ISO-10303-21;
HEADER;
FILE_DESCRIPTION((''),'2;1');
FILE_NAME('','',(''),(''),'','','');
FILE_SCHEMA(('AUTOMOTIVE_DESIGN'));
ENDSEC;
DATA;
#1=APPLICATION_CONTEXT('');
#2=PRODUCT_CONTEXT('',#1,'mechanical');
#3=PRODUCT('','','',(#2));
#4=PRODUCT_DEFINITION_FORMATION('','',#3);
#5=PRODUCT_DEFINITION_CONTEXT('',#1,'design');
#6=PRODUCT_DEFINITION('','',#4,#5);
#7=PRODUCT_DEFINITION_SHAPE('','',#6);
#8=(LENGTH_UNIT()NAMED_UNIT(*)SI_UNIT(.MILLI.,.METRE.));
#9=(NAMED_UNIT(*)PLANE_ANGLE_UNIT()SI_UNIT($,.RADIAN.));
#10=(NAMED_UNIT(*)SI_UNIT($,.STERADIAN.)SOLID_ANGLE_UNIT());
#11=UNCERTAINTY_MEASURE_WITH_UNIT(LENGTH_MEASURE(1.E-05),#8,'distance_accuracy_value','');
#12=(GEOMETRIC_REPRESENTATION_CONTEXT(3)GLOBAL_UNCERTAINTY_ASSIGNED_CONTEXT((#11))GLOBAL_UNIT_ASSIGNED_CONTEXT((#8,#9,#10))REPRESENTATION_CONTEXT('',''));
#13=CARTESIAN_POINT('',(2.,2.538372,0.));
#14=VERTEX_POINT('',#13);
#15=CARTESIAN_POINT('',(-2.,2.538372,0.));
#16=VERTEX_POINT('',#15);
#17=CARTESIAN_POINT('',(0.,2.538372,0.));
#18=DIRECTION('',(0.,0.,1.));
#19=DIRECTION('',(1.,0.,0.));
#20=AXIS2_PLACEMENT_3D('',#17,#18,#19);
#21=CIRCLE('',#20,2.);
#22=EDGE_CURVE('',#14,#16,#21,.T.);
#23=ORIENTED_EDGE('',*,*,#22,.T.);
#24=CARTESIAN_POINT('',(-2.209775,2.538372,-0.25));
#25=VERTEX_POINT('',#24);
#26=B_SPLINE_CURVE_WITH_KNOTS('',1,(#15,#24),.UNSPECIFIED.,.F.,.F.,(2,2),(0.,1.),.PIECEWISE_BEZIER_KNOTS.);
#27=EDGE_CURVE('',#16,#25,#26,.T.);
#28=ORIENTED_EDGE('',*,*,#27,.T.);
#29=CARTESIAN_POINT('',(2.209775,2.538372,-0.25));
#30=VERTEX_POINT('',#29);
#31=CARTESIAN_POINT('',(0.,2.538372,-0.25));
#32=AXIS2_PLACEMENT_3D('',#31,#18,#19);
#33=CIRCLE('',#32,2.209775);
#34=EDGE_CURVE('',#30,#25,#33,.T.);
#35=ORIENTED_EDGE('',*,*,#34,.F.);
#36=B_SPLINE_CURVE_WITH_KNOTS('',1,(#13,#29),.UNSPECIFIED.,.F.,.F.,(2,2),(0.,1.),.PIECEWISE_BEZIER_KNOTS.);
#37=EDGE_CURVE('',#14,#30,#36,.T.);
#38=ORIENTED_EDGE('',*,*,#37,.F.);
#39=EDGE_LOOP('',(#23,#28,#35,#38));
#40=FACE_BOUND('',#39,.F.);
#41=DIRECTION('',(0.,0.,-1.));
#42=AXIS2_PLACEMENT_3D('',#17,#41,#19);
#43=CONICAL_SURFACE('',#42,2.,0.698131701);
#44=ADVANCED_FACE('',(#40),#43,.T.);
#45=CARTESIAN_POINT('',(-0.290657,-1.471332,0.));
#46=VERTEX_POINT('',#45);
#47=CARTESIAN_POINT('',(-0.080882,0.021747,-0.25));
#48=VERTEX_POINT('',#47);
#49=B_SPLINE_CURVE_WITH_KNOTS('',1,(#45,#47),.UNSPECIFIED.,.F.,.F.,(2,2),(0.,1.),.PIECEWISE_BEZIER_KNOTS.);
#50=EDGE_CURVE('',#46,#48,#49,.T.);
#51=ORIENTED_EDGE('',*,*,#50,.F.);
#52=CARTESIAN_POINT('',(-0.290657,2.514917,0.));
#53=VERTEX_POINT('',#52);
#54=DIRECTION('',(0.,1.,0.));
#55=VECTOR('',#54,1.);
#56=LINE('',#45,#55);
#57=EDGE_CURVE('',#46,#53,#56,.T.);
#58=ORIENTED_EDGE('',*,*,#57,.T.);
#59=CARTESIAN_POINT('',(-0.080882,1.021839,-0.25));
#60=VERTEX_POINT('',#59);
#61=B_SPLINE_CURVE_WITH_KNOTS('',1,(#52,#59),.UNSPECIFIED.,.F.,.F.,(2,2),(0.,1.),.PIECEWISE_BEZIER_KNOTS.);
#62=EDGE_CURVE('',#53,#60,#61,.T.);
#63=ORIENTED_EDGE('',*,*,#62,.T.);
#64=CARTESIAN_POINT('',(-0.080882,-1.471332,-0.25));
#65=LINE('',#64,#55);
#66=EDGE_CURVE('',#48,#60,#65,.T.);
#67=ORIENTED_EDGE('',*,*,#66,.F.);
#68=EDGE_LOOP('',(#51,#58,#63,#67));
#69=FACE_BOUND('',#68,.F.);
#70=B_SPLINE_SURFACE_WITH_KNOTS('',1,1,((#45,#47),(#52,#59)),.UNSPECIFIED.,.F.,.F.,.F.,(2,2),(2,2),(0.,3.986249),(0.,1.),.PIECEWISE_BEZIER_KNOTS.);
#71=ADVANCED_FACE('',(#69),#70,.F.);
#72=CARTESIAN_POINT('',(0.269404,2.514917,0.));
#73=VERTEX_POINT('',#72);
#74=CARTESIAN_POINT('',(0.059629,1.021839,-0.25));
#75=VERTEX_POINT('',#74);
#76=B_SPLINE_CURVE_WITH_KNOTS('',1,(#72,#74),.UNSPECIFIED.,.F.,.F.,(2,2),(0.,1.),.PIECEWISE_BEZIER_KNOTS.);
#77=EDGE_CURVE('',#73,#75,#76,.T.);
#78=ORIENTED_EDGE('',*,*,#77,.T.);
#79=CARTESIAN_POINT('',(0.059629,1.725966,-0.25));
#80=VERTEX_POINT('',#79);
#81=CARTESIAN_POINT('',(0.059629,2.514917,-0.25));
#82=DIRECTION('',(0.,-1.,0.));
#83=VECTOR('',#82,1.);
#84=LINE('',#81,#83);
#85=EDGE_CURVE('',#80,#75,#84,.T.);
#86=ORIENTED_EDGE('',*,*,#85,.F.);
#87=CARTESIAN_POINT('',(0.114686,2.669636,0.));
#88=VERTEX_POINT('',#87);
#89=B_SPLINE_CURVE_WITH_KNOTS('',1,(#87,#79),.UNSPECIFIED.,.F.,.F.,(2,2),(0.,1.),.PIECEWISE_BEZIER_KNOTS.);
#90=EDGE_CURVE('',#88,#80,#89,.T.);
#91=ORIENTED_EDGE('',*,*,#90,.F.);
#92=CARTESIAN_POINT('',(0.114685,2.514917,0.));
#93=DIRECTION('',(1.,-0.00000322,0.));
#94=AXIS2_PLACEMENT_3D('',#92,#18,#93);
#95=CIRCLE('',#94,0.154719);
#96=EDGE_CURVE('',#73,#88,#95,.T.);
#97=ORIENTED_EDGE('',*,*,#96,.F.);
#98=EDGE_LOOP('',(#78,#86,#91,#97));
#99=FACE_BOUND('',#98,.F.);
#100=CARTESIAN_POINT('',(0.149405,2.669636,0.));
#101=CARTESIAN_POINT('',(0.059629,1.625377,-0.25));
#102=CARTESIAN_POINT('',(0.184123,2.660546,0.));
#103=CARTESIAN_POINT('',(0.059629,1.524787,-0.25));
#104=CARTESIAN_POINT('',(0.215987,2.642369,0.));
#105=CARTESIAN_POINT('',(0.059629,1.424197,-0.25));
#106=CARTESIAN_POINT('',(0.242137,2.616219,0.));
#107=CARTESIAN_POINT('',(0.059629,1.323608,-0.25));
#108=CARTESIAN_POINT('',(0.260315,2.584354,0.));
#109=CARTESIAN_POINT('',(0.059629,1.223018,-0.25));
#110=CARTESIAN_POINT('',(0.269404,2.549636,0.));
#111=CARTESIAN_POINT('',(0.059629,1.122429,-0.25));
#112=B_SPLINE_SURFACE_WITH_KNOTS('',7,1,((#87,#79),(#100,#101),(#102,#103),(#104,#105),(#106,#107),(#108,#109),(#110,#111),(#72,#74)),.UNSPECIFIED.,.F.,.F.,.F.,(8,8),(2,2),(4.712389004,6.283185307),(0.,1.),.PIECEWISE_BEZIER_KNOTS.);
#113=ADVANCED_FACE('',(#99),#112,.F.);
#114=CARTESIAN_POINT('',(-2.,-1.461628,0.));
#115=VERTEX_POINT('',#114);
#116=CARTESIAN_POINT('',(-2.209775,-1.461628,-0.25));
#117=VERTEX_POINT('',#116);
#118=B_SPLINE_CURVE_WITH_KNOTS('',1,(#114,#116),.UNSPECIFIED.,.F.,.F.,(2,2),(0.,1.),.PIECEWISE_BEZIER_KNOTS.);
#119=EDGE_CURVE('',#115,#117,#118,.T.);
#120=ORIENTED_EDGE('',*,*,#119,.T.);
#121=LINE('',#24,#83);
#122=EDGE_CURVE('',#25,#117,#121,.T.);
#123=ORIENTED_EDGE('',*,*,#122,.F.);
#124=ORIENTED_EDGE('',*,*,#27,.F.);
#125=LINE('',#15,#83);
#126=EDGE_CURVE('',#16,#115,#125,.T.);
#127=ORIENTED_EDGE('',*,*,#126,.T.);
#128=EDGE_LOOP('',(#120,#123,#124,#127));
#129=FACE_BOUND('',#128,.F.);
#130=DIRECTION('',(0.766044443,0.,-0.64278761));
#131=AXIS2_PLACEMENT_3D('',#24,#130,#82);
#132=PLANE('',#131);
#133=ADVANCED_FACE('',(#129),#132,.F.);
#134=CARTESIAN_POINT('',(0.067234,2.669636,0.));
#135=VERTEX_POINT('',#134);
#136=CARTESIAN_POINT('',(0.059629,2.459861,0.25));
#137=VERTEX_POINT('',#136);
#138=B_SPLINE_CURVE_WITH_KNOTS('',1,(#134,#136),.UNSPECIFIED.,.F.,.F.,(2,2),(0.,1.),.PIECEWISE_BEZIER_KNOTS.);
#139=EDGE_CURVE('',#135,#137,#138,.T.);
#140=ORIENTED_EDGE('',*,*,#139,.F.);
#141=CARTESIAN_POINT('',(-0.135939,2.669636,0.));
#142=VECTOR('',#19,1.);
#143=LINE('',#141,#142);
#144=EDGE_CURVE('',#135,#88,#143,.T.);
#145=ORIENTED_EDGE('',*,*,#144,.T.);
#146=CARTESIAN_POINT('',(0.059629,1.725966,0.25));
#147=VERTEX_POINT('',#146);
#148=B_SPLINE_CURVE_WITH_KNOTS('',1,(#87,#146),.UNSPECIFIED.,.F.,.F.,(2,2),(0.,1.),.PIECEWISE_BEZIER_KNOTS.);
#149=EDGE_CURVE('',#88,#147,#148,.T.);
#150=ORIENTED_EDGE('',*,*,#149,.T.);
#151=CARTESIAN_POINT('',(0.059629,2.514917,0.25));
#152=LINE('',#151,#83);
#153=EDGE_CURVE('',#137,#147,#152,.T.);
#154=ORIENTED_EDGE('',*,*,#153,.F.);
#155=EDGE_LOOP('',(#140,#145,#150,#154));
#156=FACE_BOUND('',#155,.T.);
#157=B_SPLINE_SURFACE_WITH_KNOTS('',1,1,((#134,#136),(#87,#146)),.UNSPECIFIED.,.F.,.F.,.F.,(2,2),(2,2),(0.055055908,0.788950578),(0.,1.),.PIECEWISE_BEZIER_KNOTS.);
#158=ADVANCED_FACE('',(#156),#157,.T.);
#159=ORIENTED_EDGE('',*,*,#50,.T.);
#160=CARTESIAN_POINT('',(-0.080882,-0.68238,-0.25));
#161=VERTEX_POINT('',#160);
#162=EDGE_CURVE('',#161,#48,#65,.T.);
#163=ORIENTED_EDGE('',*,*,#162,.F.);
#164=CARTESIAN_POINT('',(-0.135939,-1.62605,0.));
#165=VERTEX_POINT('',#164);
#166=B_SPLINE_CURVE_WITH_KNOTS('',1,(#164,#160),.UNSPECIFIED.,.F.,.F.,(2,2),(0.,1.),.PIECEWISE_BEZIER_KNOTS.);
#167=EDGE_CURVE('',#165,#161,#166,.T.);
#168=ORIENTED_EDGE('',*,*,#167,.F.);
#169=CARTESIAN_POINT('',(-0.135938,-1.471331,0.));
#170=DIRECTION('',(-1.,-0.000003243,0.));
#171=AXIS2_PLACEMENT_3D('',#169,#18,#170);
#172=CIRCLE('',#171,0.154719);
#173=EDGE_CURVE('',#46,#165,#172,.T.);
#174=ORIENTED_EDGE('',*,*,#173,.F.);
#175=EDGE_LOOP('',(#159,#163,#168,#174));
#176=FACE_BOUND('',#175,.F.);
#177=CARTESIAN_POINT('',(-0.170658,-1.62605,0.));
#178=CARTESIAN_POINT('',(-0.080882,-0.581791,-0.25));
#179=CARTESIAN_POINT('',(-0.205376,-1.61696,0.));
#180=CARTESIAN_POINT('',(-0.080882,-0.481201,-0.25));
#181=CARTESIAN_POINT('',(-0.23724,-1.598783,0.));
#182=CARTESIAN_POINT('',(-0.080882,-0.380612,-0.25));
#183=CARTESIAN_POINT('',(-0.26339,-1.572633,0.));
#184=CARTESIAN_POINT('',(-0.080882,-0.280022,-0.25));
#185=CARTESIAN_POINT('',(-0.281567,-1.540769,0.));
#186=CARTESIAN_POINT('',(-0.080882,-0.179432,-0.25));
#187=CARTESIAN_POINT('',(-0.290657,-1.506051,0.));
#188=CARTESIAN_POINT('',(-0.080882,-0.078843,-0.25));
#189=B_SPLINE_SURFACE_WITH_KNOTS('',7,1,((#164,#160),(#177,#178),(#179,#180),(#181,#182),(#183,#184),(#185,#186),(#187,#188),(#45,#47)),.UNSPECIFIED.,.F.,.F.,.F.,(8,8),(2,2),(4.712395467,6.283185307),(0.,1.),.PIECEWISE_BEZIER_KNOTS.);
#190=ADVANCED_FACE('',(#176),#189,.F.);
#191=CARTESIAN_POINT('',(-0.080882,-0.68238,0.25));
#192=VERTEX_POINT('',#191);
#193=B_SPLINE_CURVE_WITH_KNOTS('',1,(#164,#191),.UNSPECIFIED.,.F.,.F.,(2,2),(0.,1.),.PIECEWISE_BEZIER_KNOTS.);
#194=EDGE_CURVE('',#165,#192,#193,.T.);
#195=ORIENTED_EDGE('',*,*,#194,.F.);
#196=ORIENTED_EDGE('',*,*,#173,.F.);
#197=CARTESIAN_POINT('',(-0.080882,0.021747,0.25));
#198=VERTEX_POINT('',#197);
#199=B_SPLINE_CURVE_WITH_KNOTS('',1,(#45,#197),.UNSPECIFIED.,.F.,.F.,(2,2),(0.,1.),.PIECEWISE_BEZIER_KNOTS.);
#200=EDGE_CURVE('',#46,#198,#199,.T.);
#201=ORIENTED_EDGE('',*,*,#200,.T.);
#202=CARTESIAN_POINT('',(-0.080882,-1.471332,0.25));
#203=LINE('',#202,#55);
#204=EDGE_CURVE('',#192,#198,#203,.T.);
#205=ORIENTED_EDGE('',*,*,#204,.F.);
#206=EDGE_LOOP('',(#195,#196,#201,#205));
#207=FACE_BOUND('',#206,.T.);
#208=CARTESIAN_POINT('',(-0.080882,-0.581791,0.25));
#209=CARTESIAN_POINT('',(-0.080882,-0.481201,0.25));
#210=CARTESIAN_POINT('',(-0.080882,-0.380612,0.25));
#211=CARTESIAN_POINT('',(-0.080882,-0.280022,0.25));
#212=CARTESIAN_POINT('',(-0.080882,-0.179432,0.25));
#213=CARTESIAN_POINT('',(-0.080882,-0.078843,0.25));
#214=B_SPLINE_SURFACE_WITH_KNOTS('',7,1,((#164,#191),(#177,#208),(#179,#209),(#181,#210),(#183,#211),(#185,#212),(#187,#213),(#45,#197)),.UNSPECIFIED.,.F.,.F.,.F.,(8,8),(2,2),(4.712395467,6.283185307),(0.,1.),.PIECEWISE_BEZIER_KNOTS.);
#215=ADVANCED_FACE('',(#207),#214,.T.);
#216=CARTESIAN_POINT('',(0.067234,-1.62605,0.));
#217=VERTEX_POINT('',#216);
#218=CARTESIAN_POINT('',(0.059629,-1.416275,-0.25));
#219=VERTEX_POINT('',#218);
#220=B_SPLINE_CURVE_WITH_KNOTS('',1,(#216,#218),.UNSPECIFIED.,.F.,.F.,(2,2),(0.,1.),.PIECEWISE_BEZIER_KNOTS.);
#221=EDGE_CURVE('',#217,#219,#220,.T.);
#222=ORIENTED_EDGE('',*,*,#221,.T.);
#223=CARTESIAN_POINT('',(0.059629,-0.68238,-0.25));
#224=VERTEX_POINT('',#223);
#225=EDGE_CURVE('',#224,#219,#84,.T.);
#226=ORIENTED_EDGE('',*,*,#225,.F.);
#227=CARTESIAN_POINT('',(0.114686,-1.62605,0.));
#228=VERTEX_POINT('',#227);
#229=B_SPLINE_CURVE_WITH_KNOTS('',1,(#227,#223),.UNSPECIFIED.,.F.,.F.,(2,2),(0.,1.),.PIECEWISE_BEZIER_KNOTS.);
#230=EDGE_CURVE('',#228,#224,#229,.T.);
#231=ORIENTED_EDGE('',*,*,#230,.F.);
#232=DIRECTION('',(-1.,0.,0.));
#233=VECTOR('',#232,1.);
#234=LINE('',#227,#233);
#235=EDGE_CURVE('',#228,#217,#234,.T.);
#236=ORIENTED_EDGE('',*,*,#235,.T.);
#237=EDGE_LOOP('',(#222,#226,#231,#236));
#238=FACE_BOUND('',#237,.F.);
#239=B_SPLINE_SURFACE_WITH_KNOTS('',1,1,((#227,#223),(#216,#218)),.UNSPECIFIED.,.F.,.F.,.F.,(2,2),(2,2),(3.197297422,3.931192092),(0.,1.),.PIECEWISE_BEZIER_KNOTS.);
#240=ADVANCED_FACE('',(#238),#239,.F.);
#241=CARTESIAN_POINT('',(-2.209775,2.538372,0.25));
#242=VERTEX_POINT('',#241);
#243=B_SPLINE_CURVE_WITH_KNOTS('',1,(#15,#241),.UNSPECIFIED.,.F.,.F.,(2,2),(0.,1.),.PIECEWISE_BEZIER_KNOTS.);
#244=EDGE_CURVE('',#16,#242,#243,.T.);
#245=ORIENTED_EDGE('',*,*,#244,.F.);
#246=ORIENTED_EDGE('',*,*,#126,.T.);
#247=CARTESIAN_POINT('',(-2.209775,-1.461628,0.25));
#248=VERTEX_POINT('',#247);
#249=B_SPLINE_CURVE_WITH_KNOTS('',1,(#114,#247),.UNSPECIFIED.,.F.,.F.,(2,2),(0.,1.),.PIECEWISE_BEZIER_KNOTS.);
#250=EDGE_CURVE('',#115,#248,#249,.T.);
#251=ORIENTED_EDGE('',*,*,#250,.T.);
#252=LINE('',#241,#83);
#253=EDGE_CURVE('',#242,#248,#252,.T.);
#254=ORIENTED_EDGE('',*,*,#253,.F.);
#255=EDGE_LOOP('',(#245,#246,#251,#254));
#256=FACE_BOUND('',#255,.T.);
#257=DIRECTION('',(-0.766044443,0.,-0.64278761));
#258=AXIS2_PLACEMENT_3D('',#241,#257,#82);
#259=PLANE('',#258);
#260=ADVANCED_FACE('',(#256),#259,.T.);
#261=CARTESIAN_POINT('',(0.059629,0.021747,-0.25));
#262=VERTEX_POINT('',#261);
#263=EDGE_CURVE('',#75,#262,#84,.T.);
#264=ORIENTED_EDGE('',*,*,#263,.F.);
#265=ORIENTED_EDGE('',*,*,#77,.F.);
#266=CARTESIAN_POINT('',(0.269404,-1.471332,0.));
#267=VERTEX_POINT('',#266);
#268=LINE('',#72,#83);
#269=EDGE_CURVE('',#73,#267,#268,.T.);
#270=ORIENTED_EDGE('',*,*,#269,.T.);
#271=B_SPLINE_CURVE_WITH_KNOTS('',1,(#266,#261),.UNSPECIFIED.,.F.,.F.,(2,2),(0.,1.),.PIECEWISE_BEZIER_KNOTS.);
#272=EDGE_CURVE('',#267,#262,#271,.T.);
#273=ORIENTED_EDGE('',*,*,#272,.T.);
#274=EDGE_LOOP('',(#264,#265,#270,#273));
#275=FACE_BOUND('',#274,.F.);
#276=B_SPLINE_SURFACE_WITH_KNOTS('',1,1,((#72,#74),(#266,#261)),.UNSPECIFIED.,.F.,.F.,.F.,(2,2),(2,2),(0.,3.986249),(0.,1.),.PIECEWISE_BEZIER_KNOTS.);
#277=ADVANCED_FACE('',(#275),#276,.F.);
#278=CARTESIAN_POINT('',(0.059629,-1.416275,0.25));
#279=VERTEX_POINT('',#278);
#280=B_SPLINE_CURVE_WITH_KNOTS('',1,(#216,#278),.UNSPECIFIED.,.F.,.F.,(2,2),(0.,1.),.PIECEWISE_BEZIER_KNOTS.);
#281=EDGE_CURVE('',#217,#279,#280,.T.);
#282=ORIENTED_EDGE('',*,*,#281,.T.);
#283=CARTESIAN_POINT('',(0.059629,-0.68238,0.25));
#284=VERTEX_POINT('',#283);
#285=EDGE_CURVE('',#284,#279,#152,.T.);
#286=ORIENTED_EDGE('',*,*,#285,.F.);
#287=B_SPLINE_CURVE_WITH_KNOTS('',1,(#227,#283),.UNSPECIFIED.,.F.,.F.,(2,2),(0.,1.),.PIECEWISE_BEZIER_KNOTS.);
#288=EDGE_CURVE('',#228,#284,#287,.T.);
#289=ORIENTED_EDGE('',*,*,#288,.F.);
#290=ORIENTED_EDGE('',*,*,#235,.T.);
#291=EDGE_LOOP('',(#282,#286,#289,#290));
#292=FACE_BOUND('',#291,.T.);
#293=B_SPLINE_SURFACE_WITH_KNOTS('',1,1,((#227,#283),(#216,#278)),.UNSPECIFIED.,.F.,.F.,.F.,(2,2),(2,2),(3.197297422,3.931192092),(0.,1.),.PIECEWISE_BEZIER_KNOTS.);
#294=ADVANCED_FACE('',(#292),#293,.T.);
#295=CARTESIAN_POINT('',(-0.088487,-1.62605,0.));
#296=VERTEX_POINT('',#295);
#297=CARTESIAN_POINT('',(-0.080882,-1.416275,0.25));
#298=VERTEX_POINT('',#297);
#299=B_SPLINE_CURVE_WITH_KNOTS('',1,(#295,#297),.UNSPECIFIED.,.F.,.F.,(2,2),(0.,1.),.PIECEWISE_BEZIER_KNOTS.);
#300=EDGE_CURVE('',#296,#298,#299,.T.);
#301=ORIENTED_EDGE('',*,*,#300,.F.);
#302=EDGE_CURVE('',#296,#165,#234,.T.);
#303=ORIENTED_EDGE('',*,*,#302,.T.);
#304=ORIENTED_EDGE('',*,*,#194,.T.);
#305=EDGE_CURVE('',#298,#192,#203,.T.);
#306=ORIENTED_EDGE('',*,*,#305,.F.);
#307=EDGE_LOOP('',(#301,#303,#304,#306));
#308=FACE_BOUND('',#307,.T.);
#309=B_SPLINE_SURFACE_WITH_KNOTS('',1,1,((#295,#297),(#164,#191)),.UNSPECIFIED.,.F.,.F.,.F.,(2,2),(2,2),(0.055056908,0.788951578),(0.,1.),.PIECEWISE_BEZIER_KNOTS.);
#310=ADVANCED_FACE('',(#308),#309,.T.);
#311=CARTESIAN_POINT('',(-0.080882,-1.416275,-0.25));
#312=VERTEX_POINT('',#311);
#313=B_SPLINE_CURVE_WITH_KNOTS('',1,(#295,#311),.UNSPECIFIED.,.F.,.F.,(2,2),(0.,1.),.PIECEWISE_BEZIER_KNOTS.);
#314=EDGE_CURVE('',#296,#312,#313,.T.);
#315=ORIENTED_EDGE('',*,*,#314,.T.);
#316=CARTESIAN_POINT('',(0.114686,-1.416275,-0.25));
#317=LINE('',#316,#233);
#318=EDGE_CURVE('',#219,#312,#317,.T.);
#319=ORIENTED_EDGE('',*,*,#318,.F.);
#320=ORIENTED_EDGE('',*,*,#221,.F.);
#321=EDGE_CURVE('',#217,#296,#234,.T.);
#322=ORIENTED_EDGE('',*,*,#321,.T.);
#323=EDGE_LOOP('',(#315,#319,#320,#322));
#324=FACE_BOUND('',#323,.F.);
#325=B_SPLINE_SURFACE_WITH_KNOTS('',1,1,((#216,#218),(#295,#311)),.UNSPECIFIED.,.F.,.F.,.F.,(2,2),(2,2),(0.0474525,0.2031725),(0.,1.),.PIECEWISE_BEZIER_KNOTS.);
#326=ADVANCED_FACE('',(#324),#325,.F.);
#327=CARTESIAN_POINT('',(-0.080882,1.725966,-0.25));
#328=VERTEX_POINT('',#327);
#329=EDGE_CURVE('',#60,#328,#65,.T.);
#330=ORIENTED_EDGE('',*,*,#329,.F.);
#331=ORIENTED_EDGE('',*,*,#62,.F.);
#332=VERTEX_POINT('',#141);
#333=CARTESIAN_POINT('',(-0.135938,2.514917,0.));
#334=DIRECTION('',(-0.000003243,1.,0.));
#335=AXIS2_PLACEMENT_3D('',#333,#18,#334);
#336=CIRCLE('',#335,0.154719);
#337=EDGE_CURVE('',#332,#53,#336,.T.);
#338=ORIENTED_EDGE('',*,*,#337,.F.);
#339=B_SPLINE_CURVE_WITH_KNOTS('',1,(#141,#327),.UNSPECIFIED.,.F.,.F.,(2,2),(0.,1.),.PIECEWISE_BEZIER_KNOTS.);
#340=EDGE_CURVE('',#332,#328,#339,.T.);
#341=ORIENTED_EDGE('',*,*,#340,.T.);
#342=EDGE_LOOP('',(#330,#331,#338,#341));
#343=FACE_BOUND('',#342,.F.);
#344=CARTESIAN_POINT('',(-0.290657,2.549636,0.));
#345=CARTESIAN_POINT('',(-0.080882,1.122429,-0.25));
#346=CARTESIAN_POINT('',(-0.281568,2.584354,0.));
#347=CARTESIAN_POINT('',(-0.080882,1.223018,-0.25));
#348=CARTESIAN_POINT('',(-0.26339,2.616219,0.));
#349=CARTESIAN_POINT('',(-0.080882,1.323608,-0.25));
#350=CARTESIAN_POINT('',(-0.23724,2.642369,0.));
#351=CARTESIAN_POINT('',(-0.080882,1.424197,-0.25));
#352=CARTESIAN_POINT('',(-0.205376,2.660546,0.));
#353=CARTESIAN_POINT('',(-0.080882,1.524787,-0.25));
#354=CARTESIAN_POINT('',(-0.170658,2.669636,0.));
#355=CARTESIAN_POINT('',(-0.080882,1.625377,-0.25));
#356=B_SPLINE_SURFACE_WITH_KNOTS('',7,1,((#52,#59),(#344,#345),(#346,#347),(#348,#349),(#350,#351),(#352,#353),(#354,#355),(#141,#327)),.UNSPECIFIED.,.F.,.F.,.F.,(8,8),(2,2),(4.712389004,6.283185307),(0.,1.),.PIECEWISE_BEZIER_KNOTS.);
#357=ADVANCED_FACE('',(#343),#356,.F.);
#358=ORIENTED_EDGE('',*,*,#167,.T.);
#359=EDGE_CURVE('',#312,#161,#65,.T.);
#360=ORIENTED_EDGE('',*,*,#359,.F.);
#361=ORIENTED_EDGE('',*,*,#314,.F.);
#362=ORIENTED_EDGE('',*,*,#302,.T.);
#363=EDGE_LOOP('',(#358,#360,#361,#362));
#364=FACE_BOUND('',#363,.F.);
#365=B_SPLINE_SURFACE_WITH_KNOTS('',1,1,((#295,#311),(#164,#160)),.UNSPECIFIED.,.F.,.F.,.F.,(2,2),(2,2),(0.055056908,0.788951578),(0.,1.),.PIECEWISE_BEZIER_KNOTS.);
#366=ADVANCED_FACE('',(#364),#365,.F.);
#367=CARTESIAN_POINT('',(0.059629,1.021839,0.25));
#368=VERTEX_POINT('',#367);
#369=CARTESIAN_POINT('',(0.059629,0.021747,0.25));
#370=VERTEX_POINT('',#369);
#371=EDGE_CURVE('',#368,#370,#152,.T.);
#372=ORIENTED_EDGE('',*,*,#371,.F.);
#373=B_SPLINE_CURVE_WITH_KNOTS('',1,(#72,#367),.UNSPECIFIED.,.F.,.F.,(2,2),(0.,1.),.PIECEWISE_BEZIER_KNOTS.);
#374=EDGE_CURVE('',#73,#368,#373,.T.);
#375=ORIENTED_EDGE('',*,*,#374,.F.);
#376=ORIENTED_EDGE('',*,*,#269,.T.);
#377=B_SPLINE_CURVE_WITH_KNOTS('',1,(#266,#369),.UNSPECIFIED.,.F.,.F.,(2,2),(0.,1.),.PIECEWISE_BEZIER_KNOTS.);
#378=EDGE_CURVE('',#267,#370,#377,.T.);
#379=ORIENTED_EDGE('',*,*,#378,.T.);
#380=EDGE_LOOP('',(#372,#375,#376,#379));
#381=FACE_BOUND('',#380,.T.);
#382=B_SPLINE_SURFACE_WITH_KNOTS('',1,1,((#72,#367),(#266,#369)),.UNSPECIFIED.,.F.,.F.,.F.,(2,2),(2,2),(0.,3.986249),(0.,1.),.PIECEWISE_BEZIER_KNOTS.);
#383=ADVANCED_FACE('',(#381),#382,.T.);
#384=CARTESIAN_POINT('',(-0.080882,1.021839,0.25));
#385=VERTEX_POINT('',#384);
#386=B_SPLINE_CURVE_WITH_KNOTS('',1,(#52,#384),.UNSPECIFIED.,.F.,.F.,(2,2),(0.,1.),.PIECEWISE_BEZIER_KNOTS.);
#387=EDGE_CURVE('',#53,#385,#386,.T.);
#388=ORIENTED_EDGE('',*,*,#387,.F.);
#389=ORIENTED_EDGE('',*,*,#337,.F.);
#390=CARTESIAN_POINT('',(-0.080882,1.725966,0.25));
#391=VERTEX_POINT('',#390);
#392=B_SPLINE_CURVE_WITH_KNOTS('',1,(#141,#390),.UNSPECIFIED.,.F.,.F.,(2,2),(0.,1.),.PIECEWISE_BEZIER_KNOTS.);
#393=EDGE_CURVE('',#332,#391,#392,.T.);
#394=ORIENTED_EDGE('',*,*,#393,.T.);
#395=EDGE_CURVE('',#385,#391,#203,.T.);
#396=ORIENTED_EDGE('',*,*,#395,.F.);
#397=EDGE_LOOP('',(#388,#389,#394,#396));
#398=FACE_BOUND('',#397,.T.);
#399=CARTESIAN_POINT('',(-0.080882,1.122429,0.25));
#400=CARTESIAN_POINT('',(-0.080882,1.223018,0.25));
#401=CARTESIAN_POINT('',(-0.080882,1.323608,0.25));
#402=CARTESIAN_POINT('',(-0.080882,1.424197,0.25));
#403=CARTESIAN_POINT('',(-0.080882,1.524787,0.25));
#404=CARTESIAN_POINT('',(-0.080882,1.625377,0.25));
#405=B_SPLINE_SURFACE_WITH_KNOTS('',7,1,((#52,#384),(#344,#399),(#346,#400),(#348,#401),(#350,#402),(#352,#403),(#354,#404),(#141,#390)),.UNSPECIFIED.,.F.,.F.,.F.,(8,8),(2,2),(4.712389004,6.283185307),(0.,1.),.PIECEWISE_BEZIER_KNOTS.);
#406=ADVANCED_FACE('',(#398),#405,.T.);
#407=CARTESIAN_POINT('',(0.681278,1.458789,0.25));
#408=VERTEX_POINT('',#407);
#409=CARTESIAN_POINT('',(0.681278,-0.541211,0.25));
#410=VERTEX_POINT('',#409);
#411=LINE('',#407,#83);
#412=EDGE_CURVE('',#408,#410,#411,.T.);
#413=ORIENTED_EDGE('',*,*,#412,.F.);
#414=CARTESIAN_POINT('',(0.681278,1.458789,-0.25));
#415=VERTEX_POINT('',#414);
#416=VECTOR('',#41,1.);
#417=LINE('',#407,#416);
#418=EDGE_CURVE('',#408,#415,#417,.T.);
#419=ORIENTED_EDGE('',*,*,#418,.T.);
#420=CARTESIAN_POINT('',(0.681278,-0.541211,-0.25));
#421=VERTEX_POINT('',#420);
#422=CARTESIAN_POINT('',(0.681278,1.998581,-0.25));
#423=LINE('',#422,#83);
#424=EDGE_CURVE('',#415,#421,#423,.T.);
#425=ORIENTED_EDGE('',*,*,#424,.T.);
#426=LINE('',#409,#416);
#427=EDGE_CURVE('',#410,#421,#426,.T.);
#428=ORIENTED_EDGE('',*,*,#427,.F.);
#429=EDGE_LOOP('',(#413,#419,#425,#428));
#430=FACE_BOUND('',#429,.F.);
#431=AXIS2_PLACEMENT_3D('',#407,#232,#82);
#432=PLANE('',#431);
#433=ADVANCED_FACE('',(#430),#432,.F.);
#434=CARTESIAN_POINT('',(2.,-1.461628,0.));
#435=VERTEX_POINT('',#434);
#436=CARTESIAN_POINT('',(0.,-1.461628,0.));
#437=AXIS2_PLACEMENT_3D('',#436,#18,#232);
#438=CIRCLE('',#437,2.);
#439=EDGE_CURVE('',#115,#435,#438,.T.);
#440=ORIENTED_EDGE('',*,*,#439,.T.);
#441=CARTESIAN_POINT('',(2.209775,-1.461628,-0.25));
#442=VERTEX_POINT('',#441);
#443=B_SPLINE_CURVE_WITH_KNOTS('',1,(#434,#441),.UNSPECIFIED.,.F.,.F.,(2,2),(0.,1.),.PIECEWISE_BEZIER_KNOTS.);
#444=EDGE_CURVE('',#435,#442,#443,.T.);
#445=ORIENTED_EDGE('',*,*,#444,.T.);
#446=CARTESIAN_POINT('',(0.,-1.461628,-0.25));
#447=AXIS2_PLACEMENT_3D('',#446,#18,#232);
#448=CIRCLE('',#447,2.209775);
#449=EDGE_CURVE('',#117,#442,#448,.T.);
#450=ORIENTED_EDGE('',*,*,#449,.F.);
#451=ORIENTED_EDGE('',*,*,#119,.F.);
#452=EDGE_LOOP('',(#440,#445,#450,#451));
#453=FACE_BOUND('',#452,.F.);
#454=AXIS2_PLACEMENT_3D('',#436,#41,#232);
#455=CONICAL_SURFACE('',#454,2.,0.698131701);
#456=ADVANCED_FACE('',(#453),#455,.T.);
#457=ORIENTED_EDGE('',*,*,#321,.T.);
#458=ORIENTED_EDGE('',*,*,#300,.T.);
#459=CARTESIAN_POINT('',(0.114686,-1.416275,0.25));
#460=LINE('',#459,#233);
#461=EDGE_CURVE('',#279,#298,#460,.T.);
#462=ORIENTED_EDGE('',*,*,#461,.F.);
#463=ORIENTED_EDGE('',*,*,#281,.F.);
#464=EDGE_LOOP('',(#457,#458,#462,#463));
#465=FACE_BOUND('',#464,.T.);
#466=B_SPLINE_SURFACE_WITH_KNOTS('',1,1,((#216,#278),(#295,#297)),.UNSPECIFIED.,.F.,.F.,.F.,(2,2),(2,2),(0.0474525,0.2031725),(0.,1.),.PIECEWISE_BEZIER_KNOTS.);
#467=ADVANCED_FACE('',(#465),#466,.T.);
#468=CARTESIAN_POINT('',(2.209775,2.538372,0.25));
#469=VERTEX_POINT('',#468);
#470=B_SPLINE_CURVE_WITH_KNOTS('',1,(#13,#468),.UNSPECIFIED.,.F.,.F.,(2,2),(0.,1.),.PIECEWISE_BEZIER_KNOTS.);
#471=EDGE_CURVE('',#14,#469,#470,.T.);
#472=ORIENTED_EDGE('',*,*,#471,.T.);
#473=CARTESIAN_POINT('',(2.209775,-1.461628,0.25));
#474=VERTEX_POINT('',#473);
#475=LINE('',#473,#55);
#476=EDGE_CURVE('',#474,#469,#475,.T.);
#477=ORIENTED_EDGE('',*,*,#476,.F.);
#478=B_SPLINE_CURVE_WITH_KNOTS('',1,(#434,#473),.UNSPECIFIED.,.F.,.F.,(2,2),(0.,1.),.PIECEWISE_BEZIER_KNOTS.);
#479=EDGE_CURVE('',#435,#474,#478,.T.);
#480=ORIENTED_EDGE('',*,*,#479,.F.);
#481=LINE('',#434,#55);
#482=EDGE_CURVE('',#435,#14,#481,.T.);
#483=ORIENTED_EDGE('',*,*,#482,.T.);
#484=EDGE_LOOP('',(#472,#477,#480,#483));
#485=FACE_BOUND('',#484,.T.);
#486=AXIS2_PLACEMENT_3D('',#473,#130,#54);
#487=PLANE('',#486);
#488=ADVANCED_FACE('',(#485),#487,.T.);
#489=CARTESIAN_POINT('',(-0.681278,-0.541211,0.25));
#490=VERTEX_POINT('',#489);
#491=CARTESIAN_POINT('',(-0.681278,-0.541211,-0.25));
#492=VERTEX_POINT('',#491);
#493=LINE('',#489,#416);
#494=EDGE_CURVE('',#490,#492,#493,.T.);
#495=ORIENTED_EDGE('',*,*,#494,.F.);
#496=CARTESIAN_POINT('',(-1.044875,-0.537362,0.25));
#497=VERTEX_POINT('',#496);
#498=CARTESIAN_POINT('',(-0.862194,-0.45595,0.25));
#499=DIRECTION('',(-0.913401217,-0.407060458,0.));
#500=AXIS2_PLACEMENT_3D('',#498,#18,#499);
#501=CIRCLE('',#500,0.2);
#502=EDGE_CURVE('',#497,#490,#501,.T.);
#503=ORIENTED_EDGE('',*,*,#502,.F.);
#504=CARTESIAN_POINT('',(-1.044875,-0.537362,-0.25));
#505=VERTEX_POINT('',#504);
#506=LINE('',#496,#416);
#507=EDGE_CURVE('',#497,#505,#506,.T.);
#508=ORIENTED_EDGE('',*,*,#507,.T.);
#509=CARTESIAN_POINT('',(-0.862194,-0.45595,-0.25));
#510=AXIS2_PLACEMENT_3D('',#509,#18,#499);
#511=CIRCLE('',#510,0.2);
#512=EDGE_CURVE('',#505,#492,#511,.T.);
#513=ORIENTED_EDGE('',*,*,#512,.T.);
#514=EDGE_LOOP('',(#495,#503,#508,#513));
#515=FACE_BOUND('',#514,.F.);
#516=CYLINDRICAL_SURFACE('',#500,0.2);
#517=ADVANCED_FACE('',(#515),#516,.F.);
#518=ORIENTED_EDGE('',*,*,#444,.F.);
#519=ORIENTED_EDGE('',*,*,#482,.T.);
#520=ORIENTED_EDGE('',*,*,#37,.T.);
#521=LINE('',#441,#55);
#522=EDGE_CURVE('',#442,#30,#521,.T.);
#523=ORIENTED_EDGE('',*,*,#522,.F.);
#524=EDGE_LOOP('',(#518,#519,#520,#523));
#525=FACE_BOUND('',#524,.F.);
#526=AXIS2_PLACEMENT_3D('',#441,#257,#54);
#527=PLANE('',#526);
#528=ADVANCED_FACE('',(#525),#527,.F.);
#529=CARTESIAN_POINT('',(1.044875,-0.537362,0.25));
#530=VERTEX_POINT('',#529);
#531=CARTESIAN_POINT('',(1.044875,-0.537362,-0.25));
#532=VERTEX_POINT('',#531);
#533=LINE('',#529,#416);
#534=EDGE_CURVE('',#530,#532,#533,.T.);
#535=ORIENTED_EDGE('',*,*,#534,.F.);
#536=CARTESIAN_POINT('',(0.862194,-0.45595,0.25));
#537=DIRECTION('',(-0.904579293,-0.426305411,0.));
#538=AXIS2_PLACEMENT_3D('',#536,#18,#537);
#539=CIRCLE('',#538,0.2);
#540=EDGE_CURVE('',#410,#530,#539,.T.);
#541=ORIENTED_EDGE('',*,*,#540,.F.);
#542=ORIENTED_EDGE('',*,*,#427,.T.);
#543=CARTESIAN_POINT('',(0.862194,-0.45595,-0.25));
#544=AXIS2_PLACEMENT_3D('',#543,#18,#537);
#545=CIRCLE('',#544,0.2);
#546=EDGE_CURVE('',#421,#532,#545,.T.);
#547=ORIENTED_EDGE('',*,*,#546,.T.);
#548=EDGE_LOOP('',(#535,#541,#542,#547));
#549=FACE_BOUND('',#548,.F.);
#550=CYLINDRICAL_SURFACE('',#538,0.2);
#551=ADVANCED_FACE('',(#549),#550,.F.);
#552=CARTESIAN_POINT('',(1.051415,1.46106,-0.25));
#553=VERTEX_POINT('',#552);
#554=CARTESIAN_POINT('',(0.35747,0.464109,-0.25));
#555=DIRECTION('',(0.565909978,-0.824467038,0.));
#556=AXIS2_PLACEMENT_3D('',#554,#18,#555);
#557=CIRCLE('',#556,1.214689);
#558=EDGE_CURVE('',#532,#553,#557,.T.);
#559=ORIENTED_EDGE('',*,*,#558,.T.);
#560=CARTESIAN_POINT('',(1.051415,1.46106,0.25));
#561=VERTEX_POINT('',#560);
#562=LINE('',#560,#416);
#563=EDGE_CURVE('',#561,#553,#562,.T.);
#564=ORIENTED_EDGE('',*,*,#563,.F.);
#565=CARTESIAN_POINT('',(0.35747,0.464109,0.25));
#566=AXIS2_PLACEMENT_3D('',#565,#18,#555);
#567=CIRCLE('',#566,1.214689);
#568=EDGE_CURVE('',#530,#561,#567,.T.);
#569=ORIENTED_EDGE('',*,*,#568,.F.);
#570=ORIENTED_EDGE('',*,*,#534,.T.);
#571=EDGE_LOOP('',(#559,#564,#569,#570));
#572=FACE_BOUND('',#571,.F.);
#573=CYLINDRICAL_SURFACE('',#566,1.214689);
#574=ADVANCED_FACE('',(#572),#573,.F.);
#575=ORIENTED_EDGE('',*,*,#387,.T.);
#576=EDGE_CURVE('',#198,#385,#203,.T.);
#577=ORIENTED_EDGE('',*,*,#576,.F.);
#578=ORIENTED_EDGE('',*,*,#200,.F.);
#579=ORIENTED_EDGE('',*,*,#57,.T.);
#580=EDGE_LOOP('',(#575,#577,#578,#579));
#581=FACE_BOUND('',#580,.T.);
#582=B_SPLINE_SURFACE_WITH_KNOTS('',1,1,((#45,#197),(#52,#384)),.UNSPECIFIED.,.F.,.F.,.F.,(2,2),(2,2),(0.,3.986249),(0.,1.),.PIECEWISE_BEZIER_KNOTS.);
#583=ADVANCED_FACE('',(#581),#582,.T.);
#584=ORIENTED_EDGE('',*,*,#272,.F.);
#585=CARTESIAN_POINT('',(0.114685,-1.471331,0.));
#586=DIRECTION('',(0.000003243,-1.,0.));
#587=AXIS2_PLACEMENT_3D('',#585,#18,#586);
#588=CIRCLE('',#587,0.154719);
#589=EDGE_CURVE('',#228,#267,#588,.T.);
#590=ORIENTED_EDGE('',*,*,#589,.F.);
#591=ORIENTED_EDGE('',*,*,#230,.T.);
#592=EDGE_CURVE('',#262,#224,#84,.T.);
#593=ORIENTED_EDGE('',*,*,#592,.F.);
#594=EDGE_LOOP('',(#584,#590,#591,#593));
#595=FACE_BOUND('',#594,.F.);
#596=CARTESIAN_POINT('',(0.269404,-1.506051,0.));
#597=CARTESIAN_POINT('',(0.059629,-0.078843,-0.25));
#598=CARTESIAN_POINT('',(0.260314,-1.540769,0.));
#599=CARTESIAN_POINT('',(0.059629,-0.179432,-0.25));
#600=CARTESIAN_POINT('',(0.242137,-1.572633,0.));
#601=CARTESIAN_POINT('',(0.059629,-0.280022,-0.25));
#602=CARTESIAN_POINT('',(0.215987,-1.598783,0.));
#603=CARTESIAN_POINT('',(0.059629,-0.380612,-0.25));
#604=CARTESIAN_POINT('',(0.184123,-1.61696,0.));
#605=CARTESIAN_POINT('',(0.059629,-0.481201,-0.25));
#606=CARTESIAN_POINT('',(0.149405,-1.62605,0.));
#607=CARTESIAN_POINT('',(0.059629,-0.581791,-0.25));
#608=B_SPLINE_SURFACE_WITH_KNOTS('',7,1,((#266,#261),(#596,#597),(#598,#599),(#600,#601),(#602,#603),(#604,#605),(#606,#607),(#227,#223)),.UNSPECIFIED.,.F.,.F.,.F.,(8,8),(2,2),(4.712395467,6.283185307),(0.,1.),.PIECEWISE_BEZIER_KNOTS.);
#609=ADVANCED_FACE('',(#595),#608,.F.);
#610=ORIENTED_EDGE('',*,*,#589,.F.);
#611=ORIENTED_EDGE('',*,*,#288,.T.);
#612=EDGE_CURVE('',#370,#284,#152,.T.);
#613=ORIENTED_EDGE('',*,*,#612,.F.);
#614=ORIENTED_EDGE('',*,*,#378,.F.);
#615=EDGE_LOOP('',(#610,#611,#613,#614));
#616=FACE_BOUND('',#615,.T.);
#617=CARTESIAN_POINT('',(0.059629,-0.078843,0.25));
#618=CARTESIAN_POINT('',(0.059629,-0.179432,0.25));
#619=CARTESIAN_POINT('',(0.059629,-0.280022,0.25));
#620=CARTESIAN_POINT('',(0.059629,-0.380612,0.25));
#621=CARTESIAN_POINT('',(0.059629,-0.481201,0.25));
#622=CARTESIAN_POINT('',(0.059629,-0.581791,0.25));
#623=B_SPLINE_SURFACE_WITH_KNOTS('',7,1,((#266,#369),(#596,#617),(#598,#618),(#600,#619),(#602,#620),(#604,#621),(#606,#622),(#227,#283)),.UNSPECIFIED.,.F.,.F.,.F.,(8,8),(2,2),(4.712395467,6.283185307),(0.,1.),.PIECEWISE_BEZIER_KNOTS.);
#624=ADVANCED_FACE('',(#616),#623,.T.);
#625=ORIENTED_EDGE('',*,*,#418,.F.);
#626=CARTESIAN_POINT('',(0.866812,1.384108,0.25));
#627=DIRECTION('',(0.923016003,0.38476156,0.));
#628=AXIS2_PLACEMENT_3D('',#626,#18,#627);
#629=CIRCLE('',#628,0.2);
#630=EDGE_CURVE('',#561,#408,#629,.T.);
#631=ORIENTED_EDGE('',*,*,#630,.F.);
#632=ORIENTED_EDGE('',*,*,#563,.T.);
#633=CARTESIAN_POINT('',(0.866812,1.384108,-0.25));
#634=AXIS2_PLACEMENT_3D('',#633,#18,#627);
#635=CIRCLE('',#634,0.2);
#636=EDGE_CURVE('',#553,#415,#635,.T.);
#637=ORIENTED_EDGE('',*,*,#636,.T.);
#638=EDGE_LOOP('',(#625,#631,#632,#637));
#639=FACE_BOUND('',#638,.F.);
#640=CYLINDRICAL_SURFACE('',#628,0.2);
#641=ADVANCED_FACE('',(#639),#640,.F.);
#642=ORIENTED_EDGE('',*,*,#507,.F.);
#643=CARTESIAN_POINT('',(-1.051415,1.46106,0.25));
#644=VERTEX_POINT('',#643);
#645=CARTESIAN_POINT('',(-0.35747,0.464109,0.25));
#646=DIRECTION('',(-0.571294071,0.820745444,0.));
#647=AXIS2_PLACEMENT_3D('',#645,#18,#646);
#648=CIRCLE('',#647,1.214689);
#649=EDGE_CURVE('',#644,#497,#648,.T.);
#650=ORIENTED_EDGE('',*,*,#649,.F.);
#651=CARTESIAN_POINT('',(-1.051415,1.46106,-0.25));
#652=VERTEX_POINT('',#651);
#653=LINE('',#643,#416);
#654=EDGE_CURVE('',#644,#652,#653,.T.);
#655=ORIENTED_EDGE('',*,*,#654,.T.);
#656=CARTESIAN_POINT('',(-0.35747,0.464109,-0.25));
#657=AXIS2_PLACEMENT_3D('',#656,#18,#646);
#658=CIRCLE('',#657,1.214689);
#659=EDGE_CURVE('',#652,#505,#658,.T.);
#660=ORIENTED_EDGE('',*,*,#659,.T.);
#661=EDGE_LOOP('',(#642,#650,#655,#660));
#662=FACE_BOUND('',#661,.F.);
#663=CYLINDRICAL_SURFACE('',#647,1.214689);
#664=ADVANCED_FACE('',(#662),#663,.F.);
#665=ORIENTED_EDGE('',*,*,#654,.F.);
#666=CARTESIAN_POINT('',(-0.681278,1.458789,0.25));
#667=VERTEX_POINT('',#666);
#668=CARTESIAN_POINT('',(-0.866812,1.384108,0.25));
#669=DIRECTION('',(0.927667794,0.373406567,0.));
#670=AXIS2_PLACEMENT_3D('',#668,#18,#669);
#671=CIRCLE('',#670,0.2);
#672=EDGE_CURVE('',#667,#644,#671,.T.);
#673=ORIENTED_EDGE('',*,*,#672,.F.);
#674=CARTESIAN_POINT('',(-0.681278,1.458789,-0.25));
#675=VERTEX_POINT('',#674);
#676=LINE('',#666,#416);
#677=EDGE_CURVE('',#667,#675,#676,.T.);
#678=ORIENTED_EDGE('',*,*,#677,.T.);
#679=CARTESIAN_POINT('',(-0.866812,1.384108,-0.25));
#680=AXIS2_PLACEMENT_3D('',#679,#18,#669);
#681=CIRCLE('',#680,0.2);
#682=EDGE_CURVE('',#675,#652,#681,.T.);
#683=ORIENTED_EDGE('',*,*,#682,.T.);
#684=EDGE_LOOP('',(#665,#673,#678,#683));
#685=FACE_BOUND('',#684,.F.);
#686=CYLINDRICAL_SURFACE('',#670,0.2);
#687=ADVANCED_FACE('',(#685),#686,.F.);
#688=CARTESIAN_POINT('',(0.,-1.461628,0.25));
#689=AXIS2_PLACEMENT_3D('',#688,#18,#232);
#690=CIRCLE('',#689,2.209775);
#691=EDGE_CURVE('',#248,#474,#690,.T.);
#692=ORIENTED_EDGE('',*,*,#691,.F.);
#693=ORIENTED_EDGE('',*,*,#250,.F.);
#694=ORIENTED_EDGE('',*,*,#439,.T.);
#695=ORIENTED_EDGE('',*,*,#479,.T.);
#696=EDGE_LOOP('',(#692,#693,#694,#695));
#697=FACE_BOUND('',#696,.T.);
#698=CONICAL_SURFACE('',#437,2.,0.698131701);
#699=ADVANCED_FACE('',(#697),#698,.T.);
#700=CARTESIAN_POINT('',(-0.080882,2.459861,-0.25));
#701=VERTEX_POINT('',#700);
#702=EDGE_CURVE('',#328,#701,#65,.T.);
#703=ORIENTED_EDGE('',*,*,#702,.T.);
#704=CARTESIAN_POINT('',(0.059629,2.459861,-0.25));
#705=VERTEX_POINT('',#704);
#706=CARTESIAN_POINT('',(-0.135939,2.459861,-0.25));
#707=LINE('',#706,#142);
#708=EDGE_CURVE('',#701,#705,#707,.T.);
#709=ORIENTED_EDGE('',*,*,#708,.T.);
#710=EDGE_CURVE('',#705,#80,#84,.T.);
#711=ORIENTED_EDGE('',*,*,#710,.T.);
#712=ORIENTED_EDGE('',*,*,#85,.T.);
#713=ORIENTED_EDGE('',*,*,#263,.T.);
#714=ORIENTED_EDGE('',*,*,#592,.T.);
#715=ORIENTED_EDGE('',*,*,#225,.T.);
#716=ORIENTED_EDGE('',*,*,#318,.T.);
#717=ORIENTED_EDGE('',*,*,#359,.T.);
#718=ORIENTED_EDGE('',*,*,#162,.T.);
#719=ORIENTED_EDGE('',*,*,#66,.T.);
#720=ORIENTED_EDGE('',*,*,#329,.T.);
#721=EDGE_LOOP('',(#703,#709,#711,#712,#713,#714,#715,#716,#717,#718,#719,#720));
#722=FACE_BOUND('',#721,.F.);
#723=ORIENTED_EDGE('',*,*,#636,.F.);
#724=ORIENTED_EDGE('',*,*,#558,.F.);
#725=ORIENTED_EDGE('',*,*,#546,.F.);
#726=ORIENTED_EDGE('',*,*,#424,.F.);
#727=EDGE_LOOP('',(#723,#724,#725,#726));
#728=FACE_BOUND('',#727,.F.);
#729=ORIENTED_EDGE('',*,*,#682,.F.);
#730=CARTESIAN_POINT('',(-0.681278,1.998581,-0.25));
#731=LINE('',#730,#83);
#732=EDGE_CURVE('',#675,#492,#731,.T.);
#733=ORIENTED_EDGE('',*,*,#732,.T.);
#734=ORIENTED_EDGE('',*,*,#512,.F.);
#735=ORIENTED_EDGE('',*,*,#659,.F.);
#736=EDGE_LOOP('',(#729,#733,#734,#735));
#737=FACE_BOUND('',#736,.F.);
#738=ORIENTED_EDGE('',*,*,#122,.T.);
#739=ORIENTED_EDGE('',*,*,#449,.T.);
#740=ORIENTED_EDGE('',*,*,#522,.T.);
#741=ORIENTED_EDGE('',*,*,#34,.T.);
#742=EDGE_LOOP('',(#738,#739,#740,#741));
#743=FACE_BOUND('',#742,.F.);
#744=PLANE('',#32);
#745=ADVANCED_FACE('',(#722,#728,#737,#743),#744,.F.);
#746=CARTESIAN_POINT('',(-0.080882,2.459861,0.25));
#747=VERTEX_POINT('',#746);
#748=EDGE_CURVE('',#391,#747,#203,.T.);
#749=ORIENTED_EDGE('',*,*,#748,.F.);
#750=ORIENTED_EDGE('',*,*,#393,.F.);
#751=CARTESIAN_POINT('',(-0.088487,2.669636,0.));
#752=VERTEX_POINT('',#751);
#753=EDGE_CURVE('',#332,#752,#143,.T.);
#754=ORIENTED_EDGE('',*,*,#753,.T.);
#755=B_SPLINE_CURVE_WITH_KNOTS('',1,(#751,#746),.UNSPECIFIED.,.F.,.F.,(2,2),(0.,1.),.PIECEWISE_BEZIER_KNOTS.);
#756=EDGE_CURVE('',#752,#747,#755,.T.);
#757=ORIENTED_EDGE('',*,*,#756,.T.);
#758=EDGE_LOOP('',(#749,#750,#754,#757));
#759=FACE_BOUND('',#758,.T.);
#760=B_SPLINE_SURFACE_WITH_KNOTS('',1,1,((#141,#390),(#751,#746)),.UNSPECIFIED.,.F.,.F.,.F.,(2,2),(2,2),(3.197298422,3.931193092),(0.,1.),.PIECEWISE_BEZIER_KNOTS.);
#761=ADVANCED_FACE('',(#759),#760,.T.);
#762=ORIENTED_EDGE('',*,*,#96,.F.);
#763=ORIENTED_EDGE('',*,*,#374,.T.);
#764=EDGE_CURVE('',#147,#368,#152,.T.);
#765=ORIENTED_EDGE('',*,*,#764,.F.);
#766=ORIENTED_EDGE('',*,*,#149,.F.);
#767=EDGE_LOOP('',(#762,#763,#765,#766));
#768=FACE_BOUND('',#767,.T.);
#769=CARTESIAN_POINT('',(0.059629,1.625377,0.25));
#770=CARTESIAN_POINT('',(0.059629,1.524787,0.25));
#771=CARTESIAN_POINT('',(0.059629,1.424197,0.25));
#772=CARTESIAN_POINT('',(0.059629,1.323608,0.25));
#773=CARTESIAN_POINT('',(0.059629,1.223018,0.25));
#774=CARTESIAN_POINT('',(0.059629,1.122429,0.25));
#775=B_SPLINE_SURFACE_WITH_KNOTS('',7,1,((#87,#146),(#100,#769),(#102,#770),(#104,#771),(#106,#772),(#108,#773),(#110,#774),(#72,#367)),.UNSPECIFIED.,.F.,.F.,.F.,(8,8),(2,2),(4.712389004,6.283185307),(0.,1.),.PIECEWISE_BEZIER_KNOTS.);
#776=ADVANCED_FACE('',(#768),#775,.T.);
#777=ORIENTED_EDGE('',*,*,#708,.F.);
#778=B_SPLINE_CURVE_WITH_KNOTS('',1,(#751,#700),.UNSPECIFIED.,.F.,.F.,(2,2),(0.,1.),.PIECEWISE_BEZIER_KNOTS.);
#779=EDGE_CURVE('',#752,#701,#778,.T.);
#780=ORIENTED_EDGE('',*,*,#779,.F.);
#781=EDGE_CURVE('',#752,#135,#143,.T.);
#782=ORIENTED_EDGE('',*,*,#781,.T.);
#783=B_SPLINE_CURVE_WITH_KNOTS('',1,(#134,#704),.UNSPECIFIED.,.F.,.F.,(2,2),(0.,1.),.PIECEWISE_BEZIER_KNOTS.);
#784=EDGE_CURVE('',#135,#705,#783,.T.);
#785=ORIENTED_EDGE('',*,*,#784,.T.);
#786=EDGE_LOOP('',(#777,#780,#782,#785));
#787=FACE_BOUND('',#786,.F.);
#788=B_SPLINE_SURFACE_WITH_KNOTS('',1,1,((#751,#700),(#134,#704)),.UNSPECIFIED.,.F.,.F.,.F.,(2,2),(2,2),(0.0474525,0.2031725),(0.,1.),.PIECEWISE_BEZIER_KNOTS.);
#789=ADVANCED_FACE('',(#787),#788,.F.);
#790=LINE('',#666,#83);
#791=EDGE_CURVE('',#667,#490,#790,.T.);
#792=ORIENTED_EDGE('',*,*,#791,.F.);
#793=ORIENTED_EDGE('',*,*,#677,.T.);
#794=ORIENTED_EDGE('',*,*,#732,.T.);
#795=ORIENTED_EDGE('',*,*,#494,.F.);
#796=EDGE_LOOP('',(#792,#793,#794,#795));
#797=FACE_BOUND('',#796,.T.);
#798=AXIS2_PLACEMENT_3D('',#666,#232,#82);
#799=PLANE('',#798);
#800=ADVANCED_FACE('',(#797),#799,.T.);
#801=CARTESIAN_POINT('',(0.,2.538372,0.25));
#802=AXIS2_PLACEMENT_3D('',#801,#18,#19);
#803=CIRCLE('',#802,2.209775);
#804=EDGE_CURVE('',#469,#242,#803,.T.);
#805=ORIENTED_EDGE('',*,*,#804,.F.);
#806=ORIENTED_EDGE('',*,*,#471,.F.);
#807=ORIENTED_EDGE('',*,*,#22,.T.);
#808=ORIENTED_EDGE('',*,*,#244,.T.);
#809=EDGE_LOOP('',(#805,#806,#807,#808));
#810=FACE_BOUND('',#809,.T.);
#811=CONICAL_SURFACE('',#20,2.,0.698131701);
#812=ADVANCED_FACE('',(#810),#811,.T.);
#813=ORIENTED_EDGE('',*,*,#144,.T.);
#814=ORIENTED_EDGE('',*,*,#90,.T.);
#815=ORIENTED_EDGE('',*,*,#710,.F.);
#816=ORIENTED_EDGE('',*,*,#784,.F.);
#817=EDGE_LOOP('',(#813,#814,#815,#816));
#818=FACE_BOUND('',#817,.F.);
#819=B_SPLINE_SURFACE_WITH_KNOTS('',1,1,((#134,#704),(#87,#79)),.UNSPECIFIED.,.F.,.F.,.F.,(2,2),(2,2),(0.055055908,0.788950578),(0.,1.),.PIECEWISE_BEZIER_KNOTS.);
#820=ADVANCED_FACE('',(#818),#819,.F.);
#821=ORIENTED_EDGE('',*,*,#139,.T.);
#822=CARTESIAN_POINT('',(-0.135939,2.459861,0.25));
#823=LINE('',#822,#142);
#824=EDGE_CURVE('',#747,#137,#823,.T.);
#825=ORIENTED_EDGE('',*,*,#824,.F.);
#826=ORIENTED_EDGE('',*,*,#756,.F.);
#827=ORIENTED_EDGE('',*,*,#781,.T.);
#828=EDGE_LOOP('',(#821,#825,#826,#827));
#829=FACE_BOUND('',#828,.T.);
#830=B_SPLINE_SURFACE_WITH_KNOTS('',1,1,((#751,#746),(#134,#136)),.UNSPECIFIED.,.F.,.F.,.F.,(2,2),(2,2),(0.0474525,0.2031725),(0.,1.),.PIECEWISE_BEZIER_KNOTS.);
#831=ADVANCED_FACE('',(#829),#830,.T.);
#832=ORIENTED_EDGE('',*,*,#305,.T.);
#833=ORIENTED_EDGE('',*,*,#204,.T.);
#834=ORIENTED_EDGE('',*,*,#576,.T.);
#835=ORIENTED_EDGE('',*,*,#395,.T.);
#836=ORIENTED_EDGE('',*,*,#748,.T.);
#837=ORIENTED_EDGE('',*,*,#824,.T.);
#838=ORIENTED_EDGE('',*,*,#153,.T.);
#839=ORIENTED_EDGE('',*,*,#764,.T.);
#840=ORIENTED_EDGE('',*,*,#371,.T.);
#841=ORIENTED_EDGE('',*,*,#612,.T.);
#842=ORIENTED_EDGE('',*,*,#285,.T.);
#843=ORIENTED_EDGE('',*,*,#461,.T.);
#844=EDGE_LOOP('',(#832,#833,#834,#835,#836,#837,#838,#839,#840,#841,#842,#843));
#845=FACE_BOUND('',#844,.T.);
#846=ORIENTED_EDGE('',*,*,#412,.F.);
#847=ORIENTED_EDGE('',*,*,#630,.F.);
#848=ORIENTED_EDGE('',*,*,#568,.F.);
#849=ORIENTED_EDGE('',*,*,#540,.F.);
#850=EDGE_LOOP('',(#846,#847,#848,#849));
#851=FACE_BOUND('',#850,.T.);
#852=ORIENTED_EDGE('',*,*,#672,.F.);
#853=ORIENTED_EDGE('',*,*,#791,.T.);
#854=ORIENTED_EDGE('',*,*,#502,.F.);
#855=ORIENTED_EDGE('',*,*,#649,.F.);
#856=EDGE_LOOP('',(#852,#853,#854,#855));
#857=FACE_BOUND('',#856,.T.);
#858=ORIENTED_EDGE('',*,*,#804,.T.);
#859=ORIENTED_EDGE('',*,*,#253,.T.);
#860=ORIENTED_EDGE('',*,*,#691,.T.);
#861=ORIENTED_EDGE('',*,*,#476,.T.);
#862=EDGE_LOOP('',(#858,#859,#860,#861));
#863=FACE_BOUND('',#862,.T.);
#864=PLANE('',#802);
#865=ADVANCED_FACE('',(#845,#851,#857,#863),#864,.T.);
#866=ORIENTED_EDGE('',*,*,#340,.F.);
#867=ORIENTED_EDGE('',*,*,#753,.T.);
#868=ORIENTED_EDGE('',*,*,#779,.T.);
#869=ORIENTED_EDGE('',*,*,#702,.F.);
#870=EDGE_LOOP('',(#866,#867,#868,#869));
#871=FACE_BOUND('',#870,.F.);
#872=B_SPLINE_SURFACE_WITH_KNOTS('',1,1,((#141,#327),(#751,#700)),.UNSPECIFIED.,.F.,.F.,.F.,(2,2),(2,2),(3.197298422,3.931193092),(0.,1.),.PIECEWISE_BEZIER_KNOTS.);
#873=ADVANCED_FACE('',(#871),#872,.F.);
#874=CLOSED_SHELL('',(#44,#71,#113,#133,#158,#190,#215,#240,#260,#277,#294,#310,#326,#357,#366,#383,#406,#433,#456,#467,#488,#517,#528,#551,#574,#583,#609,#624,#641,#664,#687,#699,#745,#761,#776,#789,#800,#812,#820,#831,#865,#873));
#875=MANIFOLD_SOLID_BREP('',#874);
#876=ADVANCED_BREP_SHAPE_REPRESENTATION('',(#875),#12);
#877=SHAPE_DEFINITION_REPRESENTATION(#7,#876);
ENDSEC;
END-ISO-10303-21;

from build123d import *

# Parameters (mm, degrees)
PAD_DEPTH    = 0.25
PAD_TAPER    = -40
POCKET_DEPTH = 1


with BuildPart() as part:
    # Sketch → Pad (new body, symmetric)
    with BuildSketch(Plane.XY):
        with BuildLine():
            ThreePointArc((2, 2.538372), (0, 4.538372), (-2, 2.538372))
            Line((-2, 2.538372), (-2, -1.461628))
            ThreePointArc((-2, -1.461628), (0, -3.461628), (2, -1.461628))
            Line((2, -1.461628), (2, 2.538372))
        make_face()
        with BuildLine():
            ThreePointArc((-0.135939, 2.669636), (-0.245341, 2.62432), (-0.290657, 2.514917))
            Line((-0.290657, -1.471332), (-0.290657, 2.514917))
            ThreePointArc((-0.290657, -1.471332), (-0.245341, -1.580734), (-0.135939, -1.62605))
            Line((0.114686, -1.62605), (-0.135939, -1.62605))
            ThreePointArc((0.114686, -1.62605), (0.224088, -1.580734), (0.269404, -1.471332))
            Line((0.269404, 2.514917), (0.269404, -1.471332))
            ThreePointArc((0.269404, 2.514917), (0.224088, 2.62432), (0.114686, 2.669636))
            Line((-0.135939, 2.669636), (0.114686, 2.669636))
        make_face(mode=Mode.SUBTRACT)
    extrude(amount=PAD_DEPTH, both=True, taper=PAD_TAPER)

    # Sketch001 (on Face20 of Pad) → Pocket (cut)
    with BuildSketch(Plane.XY.offset(0.25)):
        with BuildLine():
            Line((-0.681278, 1.458789), (-0.681278, -0.541211))
            ThreePointArc((-1.044875, -0.537362), (-0.864311, -0.655939), (-0.681278, -0.541211))
            ThreePointArc((-1.051415, 1.46106), (-1.572153, 0.460134), (-1.044875, -0.537362))
            ThreePointArc((-0.681278, 1.458789), (-0.865584, 1.584104), (-1.051415, 1.46106))
        make_face()
        with BuildLine():
            Line((0.681278, 1.458789), (0.681278, -0.541211))
            ThreePointArc((0.681278, -0.541211), (0.864311, -0.655939), (1.044875, -0.537362))
            ThreePointArc((1.044875, -0.537362), (1.572153, 0.460134), (1.051415, 1.46106))
            ThreePointArc((1.051415, 1.46106), (0.865584, 1.584104), (0.681278, 1.458789))
        make_face()
    extrude(amount=-POCKET_DEPTH, mode=Mode.SUBTRACT)


solid = part.part
